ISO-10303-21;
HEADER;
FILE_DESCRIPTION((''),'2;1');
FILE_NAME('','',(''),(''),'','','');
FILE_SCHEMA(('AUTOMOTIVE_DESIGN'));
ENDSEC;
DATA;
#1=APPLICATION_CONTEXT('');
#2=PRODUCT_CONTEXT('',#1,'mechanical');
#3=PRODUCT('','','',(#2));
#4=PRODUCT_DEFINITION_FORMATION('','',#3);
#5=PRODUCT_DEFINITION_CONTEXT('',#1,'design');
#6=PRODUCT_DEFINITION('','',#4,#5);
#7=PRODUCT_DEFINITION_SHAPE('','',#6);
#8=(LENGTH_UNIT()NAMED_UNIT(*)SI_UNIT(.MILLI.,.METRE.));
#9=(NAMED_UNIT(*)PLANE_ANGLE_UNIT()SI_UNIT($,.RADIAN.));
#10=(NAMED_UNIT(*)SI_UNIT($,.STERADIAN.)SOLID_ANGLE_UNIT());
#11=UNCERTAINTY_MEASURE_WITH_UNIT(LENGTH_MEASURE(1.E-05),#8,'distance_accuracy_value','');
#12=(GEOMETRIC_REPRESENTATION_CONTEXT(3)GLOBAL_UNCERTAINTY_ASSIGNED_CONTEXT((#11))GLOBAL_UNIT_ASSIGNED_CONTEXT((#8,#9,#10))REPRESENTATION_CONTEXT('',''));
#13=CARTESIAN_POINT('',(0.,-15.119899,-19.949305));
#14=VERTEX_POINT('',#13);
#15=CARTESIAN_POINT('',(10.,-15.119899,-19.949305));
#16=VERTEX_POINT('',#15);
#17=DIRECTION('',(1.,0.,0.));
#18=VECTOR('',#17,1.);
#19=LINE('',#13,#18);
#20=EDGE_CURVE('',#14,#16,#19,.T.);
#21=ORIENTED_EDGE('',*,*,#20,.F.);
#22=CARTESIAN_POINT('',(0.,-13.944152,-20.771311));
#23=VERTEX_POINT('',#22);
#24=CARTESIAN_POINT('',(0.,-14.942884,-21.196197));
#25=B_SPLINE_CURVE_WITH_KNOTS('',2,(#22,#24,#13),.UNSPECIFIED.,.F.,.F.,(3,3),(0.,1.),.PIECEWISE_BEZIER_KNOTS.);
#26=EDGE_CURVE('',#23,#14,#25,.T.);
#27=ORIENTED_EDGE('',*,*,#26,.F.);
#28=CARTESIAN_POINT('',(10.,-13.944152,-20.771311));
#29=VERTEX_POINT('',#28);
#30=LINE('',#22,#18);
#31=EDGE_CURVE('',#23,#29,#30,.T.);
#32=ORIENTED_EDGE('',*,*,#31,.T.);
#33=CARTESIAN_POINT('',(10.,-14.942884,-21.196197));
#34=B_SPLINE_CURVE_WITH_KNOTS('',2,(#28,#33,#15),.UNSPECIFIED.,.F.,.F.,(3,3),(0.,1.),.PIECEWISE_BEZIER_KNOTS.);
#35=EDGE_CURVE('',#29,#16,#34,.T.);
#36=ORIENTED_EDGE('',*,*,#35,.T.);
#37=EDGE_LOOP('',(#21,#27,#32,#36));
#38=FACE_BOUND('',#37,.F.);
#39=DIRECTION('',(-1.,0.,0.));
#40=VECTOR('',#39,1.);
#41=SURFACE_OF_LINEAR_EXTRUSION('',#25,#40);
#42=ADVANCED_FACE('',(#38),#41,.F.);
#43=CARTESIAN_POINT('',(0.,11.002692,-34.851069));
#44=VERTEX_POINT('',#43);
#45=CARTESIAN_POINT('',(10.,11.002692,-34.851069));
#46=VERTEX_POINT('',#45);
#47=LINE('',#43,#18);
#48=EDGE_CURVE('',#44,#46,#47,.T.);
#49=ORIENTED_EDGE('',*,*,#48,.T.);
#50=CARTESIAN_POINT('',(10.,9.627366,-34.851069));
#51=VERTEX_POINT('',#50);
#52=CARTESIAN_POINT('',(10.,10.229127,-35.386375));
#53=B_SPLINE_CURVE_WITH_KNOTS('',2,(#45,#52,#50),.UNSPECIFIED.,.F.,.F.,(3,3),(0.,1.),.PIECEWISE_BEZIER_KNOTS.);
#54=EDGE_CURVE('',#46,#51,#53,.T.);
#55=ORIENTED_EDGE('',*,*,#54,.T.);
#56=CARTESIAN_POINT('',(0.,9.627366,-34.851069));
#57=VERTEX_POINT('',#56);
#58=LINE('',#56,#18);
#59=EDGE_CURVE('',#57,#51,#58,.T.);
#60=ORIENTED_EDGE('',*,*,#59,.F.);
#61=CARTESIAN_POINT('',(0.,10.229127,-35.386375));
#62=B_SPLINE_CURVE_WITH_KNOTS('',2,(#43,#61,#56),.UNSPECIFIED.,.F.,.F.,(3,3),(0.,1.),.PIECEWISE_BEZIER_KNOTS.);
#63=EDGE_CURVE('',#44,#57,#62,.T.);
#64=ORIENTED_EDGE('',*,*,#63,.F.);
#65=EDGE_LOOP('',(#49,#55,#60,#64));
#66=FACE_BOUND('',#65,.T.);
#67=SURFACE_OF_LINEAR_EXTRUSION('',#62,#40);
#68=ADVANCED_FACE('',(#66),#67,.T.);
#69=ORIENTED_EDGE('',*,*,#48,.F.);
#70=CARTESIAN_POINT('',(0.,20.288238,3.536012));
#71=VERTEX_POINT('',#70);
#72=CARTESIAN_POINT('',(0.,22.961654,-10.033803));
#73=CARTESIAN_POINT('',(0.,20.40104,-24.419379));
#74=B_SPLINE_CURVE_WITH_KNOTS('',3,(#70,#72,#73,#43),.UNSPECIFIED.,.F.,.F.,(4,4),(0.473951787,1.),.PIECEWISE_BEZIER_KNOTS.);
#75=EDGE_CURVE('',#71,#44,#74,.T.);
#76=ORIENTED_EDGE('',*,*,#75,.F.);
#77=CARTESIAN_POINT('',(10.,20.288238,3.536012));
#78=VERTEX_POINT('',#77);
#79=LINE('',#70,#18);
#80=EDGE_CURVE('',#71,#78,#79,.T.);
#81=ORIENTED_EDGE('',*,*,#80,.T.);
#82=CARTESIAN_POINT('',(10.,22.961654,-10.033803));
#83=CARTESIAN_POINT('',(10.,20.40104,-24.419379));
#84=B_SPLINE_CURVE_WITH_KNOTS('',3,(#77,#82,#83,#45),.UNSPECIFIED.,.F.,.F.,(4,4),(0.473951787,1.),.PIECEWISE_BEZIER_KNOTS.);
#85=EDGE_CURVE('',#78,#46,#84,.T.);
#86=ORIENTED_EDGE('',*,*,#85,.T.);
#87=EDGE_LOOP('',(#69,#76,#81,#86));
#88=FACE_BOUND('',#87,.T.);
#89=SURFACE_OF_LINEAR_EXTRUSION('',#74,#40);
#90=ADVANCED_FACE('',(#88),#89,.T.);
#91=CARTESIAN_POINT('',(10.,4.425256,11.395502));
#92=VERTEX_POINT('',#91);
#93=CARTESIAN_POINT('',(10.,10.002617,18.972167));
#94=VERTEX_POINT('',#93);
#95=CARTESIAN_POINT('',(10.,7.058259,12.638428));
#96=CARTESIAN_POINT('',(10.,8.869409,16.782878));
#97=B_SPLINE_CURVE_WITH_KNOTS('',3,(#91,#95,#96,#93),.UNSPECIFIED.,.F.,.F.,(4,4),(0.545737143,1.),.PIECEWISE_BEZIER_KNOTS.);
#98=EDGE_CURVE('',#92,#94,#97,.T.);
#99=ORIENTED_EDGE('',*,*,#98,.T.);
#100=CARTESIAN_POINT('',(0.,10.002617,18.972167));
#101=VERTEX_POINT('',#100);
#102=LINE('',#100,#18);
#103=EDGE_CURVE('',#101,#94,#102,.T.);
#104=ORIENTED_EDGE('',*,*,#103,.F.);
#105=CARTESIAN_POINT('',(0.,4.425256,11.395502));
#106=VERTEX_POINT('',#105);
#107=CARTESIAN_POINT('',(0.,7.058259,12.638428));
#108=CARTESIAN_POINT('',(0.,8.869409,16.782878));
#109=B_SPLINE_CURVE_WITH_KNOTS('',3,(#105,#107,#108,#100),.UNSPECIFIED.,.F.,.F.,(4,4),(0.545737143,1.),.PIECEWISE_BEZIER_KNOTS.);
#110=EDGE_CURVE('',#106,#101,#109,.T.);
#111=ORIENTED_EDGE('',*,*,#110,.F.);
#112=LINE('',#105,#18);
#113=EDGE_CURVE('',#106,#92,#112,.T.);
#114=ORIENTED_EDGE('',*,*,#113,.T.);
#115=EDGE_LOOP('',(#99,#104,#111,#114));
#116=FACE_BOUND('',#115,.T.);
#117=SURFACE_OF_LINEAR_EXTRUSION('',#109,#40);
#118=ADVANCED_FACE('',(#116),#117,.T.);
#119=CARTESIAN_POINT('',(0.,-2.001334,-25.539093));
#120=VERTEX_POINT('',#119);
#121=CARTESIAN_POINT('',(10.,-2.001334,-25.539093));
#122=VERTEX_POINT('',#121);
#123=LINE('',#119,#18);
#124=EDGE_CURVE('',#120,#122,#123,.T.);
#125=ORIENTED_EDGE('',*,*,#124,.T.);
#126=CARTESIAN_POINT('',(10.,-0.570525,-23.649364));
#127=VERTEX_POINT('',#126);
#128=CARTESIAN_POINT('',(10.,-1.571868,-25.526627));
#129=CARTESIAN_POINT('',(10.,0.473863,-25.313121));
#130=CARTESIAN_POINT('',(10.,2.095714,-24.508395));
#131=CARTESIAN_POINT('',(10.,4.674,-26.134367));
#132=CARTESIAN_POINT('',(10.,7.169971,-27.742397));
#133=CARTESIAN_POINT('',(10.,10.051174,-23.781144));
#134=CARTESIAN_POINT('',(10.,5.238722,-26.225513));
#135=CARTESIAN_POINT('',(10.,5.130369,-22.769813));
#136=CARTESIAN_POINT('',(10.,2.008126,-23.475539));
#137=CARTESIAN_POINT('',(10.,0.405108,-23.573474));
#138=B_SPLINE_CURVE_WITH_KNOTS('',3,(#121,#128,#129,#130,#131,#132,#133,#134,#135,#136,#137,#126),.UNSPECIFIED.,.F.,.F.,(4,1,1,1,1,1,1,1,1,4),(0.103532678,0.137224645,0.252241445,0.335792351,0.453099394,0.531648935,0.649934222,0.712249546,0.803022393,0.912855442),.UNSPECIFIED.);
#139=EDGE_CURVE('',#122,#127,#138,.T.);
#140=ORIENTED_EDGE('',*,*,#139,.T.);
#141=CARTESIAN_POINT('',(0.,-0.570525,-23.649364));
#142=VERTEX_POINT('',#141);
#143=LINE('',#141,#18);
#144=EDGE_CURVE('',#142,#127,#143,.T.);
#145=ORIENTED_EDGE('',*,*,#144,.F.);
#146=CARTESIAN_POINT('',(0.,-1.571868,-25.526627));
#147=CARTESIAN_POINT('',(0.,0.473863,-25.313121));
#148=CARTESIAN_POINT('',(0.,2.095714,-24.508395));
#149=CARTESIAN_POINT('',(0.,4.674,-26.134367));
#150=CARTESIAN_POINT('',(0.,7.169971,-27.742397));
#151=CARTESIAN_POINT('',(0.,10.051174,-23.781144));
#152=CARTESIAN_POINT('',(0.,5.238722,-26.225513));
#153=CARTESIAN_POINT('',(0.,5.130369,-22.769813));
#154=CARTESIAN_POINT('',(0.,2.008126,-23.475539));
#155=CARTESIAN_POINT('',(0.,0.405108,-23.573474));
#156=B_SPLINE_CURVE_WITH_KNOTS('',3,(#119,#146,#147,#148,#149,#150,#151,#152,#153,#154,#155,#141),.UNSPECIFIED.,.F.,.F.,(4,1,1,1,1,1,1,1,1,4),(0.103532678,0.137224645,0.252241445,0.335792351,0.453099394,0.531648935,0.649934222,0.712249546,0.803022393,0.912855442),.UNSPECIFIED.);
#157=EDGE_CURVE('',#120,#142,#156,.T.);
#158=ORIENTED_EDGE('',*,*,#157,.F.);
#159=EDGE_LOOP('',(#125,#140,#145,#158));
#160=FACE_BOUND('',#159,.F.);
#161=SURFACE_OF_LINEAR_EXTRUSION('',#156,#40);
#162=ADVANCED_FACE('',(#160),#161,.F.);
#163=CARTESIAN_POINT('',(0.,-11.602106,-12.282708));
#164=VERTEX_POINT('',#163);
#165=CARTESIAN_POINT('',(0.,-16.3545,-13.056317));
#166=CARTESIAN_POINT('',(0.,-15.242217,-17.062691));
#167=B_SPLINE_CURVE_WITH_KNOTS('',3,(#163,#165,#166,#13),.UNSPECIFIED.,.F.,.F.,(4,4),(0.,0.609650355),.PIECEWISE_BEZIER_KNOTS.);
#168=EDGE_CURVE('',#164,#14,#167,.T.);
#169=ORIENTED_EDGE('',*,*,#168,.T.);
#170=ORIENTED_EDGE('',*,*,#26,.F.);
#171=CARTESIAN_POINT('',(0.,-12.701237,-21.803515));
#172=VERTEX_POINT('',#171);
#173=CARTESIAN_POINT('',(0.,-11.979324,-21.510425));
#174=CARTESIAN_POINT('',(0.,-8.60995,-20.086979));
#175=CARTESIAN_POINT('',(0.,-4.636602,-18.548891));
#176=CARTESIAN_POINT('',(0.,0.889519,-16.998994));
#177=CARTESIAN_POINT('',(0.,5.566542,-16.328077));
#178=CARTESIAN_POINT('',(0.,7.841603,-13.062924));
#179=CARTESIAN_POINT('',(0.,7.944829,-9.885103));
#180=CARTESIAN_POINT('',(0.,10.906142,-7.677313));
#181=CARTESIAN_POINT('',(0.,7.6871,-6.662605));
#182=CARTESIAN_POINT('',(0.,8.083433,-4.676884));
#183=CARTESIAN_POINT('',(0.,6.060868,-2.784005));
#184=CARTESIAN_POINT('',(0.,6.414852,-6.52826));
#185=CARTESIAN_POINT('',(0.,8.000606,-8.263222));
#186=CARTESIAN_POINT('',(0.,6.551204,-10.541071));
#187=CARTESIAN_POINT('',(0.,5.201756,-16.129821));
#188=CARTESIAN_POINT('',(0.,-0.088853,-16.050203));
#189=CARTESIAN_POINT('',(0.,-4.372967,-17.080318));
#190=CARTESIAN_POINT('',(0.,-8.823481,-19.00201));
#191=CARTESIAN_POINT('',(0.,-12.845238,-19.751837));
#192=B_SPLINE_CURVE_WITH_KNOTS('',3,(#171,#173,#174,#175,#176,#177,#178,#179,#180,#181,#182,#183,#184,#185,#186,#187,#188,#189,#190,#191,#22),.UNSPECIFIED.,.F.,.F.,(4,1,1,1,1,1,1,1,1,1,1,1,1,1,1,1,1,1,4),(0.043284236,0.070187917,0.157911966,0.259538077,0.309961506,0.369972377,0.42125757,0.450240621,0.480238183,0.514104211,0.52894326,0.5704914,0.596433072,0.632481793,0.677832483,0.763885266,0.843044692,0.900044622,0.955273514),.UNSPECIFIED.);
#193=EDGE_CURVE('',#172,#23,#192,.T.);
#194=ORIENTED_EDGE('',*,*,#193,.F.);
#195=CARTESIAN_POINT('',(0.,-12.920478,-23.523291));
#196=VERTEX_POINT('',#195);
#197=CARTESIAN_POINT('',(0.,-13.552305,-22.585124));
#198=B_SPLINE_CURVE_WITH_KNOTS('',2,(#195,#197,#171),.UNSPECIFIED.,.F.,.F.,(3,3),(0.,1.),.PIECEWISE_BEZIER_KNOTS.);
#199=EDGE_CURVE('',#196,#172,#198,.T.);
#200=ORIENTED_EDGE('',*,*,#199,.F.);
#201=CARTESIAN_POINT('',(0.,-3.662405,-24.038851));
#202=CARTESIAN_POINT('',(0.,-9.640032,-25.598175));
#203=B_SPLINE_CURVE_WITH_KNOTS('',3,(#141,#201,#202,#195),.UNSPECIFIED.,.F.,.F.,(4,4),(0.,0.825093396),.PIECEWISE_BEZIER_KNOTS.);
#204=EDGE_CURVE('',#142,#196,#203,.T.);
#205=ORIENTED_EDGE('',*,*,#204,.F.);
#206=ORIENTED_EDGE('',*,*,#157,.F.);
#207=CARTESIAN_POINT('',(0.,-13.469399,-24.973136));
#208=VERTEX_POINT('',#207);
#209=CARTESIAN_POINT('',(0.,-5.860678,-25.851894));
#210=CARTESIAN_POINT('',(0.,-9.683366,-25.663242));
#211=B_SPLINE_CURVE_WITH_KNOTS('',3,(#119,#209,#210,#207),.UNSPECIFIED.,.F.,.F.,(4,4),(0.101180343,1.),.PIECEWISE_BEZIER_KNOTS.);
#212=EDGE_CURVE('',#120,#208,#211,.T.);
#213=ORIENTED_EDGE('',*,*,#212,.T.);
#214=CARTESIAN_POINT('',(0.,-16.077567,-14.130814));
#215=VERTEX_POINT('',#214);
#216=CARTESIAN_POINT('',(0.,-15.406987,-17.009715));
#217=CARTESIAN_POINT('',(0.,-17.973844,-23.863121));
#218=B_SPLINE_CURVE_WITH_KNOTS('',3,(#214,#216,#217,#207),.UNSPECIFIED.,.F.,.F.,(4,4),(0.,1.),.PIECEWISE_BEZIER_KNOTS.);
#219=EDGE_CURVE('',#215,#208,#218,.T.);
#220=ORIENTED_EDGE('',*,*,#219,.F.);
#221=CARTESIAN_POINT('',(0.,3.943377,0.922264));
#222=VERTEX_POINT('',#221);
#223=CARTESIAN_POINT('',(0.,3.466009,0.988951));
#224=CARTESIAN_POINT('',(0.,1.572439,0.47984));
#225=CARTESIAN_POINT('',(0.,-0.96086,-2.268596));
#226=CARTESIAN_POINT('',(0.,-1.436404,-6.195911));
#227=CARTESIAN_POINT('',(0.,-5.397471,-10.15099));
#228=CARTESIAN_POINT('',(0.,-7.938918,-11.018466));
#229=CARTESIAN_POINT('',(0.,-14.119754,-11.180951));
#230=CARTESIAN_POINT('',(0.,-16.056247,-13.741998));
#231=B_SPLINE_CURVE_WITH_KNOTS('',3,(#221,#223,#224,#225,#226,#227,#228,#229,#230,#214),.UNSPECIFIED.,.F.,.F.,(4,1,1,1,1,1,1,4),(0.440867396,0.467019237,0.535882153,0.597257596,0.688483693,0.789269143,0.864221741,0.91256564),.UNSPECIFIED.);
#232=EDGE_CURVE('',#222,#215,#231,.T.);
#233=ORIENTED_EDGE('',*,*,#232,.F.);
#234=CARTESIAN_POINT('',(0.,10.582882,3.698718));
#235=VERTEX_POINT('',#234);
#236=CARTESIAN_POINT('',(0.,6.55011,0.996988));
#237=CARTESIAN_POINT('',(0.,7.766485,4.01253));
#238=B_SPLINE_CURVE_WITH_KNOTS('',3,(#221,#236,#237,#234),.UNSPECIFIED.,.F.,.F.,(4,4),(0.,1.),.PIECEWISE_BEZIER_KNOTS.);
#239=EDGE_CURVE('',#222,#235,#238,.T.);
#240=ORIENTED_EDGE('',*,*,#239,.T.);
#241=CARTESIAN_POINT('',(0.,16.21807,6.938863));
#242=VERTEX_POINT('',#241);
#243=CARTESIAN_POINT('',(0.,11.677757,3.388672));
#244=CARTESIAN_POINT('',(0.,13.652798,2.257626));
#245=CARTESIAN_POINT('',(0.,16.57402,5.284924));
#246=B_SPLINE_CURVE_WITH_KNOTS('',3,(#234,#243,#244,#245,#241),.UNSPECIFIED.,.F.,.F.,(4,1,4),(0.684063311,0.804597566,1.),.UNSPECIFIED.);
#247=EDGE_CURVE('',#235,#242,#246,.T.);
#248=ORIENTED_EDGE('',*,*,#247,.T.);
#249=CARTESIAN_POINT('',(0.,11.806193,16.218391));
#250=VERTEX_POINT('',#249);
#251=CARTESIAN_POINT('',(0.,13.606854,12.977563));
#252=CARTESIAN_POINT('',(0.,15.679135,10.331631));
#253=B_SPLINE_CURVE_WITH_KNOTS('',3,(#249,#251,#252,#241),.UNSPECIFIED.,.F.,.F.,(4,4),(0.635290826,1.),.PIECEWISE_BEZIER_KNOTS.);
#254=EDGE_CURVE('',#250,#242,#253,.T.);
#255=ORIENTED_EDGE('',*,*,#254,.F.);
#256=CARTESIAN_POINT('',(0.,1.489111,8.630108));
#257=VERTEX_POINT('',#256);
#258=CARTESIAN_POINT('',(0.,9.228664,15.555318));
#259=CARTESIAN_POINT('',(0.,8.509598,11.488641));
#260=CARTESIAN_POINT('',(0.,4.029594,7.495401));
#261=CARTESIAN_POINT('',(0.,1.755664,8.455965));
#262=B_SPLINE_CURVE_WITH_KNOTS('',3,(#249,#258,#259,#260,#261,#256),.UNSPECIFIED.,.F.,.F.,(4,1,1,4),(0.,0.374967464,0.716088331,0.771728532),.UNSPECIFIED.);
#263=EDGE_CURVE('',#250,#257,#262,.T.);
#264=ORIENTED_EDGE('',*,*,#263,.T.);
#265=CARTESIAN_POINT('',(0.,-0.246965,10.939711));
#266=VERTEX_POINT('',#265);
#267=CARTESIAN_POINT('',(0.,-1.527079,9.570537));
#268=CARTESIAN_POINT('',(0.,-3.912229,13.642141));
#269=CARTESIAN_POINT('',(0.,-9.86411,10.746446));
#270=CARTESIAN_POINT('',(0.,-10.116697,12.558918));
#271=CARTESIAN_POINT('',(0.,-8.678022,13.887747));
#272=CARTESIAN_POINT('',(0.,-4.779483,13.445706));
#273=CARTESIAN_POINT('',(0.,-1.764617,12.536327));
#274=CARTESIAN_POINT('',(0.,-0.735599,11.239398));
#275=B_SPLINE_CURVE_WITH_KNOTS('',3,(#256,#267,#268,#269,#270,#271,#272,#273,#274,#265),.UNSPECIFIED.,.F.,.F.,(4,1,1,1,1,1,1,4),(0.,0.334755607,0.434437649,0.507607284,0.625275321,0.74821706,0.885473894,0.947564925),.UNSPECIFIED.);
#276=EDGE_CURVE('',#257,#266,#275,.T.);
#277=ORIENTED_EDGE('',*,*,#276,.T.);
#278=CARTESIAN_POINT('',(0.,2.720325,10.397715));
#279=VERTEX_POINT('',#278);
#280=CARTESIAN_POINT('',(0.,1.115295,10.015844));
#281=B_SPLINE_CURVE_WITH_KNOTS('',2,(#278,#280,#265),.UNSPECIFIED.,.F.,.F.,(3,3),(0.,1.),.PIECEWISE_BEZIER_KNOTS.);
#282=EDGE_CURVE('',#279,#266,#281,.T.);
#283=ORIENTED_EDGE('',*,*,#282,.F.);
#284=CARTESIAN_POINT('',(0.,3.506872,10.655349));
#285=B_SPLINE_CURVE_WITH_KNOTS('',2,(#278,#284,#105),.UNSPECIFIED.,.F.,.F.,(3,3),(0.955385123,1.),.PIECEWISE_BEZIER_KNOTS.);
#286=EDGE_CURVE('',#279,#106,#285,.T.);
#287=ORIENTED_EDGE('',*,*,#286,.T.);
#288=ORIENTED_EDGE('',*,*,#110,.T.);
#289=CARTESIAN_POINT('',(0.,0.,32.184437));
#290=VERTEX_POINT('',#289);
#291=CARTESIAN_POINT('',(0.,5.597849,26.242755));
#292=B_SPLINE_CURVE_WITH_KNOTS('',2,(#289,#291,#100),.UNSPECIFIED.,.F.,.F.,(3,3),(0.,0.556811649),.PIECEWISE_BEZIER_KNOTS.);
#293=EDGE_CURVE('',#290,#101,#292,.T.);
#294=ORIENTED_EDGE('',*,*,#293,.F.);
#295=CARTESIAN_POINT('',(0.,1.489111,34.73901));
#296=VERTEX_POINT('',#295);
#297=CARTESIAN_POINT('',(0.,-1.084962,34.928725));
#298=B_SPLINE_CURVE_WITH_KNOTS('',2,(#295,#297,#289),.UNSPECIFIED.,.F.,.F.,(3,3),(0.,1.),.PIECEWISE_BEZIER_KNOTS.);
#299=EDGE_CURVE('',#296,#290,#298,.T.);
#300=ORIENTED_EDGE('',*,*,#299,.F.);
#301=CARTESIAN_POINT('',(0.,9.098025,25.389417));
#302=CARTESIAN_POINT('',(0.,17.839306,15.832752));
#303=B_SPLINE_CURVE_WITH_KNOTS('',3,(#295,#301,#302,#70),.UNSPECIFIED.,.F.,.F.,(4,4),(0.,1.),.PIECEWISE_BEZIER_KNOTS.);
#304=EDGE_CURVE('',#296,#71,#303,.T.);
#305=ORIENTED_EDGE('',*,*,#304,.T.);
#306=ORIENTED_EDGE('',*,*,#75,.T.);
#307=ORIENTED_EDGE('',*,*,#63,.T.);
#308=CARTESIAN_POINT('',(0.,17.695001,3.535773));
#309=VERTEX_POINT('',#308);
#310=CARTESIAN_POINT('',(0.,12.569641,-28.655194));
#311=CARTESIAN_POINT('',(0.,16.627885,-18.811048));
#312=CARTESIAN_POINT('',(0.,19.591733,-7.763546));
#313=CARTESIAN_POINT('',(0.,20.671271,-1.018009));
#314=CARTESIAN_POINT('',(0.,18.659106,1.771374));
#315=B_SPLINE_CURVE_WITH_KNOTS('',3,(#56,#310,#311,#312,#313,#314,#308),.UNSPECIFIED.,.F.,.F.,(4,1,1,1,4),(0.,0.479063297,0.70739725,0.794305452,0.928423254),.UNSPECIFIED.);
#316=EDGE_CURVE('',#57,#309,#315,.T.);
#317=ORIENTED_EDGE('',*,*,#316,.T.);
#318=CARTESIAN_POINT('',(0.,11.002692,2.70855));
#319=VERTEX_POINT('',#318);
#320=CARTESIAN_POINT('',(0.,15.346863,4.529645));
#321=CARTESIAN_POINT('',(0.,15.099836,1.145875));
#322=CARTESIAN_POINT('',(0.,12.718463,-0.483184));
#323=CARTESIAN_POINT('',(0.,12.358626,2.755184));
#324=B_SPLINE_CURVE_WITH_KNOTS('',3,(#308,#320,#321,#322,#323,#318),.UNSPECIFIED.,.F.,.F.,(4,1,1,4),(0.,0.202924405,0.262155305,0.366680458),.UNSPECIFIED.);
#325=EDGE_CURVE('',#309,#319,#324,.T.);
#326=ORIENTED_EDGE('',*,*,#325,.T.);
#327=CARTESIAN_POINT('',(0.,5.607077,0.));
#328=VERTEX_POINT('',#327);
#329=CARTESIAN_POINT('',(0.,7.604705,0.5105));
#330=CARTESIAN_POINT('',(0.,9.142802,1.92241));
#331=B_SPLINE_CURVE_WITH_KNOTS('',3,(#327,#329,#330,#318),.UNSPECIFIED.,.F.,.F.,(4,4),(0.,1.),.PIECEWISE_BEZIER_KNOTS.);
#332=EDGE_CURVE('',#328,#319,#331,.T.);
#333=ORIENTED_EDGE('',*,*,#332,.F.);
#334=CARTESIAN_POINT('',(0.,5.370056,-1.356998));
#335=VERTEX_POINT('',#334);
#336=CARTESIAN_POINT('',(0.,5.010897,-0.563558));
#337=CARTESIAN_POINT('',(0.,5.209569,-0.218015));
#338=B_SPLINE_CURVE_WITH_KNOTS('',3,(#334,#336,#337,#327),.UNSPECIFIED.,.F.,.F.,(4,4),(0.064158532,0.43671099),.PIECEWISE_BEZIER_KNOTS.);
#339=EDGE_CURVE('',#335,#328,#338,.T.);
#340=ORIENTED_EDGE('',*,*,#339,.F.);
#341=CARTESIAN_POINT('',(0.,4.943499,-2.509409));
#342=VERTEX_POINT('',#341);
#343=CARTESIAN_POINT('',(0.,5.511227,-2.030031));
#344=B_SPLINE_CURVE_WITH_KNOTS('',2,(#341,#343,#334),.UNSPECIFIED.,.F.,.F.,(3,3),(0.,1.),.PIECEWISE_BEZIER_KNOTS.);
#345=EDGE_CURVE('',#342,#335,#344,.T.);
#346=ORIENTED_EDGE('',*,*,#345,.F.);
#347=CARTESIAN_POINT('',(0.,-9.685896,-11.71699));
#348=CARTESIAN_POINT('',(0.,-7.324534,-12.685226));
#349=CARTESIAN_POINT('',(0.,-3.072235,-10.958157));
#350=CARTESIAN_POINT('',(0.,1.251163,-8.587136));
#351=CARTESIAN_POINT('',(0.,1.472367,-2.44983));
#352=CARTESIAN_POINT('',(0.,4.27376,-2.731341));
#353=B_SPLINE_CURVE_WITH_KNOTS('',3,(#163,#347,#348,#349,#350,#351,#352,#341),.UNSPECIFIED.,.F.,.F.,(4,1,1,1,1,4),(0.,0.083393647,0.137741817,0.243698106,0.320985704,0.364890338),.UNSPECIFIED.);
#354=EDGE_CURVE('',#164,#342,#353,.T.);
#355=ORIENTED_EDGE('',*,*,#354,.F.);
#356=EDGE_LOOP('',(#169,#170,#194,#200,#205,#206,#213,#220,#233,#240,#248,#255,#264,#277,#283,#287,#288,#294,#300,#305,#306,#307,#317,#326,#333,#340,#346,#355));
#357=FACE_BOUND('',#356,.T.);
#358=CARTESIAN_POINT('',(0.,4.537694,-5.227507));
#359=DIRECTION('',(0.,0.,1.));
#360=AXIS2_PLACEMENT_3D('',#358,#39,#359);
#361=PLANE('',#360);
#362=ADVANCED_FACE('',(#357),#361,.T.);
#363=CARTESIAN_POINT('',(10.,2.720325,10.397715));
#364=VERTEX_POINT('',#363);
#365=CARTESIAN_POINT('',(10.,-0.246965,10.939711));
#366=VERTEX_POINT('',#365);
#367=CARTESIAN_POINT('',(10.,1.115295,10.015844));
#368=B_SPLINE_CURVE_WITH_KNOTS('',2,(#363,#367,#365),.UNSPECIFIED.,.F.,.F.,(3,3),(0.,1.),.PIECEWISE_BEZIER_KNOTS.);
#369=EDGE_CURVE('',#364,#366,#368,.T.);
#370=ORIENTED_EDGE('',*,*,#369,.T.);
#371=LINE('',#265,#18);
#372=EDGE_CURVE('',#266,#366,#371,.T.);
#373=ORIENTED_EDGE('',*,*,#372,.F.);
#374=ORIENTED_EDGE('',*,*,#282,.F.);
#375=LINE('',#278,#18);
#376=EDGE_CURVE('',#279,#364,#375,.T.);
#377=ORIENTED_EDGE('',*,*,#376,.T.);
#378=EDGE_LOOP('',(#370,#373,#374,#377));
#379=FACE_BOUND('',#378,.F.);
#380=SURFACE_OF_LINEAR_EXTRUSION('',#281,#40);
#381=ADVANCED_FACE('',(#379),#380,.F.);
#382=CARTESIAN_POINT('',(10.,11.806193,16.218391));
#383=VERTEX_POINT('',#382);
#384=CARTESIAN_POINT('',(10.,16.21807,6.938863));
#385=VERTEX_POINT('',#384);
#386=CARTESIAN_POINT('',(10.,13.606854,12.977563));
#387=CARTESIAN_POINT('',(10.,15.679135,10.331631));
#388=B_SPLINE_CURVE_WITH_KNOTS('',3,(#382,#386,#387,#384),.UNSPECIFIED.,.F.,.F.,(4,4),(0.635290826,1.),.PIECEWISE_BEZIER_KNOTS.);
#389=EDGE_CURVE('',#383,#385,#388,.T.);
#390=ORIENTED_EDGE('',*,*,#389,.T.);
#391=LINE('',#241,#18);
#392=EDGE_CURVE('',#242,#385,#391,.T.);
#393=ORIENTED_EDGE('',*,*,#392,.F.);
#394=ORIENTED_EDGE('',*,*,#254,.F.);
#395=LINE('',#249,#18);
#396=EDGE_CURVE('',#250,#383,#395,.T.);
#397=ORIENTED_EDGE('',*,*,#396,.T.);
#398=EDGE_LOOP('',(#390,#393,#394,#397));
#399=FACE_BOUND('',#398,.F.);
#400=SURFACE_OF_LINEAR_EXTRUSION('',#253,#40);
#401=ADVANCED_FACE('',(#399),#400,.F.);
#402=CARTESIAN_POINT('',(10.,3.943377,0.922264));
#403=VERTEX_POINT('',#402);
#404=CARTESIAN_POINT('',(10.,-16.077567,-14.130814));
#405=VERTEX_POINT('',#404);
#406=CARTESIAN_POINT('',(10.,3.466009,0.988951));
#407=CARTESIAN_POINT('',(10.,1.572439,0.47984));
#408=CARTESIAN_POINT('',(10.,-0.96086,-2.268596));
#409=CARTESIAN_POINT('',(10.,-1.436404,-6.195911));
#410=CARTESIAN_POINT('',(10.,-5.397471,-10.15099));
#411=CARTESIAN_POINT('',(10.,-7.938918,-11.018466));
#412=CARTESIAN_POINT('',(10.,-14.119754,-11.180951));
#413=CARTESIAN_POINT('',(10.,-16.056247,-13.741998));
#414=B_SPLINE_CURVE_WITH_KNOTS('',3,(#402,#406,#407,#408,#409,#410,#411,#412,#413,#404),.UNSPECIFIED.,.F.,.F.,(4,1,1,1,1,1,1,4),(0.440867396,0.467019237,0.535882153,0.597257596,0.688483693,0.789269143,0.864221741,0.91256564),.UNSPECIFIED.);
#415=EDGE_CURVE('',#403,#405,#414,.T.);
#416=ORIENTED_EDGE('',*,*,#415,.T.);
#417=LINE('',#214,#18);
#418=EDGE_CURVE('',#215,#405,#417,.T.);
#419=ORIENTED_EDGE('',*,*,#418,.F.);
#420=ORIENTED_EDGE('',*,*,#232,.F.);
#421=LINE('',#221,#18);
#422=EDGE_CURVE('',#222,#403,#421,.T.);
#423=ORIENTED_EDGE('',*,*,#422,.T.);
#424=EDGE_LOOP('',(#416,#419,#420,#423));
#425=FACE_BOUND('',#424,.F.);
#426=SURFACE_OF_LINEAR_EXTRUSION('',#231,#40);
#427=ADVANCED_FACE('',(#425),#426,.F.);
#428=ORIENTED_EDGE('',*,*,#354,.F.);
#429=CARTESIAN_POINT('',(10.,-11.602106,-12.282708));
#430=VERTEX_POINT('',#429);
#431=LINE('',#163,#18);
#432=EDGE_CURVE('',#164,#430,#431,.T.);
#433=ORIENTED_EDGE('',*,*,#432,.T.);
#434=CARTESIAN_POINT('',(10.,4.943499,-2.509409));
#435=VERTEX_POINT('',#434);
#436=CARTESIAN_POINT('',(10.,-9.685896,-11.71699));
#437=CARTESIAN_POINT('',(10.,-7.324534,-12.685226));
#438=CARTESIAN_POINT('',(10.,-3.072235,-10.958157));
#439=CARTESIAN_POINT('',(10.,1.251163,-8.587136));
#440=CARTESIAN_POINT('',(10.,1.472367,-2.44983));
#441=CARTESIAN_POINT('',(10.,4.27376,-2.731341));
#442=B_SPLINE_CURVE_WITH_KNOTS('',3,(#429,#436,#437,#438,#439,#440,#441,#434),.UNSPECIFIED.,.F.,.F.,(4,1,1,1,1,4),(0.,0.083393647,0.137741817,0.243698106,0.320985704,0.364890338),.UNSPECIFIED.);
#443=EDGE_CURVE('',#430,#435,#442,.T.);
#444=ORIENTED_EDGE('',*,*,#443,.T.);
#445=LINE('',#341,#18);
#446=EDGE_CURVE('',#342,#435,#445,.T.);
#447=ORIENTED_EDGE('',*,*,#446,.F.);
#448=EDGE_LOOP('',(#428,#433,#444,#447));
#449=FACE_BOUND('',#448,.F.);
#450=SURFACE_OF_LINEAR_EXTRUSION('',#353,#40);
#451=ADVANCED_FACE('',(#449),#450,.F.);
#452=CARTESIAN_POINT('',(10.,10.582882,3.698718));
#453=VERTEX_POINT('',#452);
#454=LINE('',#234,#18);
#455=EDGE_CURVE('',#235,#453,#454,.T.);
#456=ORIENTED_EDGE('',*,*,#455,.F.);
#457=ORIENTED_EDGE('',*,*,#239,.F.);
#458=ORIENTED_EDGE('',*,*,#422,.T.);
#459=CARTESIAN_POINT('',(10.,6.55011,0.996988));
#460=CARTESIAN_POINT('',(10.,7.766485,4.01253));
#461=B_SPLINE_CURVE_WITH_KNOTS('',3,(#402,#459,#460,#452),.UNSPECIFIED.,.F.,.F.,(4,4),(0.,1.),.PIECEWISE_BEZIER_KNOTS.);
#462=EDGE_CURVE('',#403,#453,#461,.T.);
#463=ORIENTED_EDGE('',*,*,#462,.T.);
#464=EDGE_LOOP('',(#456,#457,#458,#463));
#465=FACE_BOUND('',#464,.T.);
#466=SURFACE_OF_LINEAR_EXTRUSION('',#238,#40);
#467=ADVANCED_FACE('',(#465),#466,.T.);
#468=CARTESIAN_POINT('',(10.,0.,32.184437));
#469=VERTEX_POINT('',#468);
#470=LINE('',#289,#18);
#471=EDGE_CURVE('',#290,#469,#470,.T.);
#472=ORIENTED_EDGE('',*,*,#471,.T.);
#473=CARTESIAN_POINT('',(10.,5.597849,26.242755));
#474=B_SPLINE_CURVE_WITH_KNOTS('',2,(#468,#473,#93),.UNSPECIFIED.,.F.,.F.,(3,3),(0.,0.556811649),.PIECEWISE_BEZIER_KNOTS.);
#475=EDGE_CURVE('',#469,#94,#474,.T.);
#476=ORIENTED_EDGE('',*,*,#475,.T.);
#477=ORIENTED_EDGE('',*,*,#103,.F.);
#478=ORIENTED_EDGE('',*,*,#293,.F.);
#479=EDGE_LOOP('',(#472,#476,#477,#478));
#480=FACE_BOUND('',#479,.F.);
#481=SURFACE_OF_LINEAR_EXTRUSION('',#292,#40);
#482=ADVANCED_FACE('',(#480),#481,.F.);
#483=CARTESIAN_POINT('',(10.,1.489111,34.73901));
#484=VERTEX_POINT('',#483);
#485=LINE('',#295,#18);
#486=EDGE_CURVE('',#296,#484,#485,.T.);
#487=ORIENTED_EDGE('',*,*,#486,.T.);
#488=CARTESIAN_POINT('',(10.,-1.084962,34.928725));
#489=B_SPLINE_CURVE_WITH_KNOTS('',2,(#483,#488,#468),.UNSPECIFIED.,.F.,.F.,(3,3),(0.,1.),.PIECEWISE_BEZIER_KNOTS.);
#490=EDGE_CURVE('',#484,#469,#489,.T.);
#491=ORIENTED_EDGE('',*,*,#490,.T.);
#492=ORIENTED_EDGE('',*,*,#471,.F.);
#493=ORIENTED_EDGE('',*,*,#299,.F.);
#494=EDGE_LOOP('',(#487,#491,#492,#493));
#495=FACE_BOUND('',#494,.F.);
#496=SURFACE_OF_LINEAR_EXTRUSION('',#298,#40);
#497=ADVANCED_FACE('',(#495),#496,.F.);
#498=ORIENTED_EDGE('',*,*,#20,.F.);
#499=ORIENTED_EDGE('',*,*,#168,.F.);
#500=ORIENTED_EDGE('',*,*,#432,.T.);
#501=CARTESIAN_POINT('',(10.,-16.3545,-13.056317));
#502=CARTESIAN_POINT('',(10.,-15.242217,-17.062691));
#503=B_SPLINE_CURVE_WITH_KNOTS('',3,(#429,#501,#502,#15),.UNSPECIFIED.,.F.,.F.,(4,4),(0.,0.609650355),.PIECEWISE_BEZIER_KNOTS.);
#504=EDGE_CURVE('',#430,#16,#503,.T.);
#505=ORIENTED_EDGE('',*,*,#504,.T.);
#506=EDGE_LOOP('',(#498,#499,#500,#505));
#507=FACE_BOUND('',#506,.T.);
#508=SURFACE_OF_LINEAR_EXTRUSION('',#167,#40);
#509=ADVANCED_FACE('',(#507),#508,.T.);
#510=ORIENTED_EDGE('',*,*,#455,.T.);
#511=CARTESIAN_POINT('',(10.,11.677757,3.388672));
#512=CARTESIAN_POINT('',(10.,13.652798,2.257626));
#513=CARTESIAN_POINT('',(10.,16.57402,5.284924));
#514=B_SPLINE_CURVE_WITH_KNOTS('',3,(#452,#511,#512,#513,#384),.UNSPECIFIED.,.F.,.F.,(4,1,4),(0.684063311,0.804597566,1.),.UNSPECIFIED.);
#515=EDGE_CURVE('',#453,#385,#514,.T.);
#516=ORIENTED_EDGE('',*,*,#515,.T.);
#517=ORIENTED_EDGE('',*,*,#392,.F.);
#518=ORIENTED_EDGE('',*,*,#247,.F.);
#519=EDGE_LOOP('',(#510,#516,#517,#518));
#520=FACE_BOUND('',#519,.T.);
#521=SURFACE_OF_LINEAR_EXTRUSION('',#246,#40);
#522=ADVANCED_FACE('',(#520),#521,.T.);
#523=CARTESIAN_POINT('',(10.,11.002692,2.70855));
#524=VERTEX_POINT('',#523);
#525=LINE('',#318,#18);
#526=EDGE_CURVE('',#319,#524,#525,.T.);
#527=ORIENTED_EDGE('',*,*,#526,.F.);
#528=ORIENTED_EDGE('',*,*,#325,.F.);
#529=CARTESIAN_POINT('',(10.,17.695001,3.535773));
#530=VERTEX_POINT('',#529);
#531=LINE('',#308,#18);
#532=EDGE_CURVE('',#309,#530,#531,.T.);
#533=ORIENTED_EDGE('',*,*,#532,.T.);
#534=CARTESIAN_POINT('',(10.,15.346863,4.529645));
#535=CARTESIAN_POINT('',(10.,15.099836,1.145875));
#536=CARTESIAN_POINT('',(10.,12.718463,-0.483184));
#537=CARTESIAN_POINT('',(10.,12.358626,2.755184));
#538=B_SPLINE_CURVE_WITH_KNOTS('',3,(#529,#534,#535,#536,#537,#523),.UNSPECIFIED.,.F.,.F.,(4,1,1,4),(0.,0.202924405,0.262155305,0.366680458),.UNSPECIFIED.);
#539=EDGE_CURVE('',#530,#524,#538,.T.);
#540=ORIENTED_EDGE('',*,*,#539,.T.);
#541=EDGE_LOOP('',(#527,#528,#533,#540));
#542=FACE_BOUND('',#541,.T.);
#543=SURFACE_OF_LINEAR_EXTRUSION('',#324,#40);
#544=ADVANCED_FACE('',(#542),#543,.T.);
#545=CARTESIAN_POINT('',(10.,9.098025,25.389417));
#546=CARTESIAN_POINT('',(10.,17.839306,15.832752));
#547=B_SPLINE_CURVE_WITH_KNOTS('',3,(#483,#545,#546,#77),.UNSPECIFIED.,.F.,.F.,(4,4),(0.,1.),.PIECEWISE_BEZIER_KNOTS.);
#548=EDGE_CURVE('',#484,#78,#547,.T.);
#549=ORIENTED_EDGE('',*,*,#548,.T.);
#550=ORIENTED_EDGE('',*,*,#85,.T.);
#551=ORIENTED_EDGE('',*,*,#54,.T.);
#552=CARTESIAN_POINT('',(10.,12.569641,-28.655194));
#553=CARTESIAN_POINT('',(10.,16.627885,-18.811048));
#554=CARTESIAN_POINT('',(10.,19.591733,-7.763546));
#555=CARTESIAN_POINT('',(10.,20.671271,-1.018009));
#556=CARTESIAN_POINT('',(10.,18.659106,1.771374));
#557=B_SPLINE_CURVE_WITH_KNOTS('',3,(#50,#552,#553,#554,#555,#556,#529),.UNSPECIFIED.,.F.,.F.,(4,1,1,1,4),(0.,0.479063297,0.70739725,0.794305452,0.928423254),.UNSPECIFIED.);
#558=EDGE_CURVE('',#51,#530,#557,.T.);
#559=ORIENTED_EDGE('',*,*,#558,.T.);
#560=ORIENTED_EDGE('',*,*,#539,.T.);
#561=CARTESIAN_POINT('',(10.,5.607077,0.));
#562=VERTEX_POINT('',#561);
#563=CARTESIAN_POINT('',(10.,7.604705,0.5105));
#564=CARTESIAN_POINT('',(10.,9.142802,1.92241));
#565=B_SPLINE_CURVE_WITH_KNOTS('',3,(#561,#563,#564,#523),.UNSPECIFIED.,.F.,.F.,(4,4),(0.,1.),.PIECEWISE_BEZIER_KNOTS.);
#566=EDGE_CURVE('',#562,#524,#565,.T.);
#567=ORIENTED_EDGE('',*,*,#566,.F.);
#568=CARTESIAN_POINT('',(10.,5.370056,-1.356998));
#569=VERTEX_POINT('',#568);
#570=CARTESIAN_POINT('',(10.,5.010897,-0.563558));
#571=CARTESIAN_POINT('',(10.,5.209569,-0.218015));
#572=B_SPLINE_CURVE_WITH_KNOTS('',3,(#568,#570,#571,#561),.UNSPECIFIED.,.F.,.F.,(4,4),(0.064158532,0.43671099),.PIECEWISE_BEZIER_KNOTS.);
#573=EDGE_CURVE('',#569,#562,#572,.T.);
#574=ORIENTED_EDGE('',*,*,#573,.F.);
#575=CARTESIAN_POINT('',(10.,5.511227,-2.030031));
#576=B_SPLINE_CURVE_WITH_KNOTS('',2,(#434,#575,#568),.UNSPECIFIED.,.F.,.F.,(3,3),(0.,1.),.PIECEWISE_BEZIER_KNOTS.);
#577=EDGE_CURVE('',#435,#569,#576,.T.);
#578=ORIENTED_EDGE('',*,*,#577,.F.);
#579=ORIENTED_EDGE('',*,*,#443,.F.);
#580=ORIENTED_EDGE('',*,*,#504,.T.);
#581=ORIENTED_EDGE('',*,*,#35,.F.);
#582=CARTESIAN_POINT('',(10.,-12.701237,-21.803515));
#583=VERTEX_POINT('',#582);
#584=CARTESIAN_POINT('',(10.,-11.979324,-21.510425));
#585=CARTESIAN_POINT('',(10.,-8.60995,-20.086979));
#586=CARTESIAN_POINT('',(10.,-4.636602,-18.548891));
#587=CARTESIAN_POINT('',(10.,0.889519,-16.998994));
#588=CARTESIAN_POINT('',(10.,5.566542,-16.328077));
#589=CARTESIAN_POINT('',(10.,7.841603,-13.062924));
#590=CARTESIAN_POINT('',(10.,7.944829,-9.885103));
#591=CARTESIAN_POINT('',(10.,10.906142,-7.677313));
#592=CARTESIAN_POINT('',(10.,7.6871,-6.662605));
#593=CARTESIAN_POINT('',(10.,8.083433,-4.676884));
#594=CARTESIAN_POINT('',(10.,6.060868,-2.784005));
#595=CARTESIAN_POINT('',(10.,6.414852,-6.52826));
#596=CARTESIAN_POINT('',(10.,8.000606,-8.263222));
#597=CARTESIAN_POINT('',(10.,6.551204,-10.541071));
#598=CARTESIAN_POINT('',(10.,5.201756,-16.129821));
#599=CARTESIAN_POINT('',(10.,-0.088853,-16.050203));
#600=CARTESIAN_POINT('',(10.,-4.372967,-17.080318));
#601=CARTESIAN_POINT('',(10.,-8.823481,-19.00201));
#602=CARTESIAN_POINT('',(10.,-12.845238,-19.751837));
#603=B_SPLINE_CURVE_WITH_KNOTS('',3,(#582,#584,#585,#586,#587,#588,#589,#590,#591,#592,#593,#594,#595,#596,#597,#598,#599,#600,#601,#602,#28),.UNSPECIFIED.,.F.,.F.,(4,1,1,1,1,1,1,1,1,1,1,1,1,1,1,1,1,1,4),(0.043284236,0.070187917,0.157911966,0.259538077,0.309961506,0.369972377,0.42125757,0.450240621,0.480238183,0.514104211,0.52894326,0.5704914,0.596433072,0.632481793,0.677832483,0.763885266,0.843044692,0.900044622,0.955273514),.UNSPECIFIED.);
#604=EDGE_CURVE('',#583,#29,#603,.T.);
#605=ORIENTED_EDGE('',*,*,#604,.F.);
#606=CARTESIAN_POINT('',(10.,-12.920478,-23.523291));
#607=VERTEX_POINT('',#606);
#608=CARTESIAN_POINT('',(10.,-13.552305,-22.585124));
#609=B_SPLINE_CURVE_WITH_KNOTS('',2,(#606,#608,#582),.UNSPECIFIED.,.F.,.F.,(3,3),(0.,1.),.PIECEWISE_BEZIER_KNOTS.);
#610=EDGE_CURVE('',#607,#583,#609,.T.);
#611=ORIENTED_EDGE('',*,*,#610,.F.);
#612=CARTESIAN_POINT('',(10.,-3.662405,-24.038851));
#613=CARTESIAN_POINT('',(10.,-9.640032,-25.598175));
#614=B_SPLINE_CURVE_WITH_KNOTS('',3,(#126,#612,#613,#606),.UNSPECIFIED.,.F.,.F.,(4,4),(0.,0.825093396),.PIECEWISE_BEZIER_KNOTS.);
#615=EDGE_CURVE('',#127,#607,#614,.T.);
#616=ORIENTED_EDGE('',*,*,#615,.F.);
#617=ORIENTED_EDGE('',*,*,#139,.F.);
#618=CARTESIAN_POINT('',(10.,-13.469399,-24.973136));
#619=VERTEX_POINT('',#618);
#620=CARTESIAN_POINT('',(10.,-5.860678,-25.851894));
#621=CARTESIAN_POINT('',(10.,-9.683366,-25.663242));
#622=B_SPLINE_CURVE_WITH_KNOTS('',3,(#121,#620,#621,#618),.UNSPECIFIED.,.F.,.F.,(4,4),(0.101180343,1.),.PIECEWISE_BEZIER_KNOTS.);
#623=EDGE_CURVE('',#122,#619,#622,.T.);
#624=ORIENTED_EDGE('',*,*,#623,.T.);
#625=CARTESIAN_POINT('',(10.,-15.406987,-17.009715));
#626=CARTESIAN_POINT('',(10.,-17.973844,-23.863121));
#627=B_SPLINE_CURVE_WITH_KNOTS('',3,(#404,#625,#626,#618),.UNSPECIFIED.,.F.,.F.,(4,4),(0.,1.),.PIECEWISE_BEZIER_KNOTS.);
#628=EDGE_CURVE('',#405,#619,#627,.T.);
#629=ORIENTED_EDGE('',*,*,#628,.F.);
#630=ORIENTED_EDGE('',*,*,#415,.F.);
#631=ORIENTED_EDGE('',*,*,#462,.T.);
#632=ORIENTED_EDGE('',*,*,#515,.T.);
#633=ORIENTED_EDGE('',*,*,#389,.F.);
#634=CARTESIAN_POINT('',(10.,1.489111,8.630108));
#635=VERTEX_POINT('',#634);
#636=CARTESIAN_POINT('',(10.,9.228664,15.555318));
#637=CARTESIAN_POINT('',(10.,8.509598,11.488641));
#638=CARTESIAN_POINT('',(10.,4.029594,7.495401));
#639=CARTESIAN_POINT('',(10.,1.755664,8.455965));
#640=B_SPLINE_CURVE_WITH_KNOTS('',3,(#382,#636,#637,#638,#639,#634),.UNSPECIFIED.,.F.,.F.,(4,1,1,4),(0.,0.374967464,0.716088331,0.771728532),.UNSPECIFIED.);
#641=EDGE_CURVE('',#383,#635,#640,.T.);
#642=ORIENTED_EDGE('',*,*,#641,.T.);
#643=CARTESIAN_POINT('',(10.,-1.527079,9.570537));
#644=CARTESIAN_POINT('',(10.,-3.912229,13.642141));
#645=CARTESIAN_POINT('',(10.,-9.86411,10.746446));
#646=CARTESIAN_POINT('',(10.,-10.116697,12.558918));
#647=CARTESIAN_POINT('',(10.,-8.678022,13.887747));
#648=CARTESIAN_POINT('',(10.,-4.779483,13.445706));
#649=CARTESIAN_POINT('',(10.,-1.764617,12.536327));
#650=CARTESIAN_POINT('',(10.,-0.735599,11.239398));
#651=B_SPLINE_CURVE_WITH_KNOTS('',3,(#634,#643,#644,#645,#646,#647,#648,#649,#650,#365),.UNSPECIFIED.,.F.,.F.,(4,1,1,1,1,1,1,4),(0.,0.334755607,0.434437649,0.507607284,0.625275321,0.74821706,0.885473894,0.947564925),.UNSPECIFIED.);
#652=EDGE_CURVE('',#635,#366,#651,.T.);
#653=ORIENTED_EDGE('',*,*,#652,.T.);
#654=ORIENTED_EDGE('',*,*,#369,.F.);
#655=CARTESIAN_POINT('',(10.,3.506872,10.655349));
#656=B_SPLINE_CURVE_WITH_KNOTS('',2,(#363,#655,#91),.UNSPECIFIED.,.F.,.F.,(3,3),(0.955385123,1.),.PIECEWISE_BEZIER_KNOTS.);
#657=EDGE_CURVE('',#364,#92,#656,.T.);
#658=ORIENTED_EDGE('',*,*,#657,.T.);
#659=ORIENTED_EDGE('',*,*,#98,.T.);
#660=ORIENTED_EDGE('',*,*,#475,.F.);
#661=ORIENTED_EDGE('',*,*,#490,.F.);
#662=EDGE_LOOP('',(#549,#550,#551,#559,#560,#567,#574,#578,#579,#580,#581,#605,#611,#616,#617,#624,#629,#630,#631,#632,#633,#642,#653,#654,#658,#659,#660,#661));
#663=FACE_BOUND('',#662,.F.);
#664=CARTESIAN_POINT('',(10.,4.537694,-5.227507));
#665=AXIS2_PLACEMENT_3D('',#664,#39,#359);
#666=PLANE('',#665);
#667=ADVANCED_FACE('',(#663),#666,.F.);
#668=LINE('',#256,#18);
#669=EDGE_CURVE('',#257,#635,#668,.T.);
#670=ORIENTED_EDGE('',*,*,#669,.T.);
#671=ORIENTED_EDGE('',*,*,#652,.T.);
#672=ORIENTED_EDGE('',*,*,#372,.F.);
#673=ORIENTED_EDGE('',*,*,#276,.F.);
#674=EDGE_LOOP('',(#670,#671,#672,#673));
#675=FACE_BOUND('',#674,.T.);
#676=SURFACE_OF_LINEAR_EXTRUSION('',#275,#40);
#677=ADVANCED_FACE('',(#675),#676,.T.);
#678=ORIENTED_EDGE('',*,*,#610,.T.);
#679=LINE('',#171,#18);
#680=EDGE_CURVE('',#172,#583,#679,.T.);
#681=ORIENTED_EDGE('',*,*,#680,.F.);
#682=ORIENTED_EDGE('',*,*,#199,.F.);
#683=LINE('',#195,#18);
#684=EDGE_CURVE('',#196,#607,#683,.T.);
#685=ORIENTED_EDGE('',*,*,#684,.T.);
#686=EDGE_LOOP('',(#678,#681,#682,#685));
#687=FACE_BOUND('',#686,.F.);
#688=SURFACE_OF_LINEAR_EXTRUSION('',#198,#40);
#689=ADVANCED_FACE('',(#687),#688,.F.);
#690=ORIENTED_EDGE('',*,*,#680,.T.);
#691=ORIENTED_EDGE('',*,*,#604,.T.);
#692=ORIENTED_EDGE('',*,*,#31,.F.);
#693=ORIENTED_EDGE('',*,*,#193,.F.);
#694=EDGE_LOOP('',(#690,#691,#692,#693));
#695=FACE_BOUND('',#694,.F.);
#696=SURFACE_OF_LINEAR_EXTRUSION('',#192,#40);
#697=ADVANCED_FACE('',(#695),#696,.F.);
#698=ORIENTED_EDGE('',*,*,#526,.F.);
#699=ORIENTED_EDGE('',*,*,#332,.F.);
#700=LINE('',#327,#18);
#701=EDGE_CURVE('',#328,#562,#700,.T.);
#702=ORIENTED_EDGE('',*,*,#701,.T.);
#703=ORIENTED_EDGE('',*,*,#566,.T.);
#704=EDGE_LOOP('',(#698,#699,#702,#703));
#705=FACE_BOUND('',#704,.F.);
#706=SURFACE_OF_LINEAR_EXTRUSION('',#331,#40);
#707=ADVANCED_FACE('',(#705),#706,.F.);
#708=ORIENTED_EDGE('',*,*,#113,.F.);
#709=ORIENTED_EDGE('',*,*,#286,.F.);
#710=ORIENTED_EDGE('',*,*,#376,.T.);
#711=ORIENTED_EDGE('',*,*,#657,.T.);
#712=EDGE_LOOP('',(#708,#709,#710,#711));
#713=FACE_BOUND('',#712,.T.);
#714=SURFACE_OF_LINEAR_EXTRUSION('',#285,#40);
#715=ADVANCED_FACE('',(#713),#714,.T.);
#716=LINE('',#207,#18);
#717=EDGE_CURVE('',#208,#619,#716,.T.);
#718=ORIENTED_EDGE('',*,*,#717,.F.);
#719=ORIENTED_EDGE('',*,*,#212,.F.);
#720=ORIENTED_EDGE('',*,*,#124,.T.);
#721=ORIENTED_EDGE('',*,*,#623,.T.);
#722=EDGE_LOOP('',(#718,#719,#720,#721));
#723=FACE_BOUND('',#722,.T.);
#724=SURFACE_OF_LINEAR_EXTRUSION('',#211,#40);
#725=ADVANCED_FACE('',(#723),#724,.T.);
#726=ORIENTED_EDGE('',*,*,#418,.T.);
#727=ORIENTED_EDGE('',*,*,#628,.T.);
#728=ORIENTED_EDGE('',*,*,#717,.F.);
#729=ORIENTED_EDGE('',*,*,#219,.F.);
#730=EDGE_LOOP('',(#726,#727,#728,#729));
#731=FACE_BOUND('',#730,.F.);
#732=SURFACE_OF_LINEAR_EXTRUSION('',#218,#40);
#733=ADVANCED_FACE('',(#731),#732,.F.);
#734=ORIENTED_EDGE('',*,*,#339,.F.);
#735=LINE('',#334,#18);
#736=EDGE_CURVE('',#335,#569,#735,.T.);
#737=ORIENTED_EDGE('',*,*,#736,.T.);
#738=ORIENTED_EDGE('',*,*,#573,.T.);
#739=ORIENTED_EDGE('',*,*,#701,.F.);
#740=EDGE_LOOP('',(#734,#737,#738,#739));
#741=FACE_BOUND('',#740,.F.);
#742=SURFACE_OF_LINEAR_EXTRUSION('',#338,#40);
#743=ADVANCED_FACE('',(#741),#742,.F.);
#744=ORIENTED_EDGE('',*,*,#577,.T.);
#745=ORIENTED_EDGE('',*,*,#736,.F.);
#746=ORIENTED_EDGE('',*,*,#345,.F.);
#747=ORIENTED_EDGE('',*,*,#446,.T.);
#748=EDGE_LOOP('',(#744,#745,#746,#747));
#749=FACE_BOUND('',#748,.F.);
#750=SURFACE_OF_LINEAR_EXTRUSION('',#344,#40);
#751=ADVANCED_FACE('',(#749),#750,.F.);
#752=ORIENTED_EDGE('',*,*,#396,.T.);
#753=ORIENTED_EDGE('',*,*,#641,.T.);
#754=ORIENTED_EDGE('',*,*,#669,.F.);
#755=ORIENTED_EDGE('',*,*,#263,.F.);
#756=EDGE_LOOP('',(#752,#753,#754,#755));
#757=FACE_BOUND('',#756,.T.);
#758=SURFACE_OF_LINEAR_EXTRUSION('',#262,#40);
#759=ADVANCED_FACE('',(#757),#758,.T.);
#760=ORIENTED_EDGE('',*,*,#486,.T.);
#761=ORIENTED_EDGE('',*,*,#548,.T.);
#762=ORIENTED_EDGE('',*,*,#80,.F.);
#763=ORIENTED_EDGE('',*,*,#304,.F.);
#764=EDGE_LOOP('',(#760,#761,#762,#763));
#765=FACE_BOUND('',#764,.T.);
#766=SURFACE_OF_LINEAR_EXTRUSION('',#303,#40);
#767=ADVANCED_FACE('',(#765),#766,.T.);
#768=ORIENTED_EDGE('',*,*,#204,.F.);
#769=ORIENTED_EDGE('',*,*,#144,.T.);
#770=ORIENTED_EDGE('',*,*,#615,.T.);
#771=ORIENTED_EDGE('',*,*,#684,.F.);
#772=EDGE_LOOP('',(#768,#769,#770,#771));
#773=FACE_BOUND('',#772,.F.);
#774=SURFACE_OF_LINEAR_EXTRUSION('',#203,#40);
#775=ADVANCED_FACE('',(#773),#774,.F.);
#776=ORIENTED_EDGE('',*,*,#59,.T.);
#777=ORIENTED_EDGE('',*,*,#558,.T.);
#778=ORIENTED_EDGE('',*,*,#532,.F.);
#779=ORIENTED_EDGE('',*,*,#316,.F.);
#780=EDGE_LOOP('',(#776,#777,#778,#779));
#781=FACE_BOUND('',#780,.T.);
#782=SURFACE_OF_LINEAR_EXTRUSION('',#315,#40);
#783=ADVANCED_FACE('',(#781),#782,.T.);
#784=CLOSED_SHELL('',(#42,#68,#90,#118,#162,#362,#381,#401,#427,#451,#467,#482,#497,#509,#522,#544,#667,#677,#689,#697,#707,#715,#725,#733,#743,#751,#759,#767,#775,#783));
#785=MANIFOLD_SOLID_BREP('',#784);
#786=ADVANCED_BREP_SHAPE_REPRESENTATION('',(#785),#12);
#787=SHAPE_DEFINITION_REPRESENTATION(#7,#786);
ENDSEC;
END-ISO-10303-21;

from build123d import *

# Parameters (mm, degrees)
BOSS_EXTRUDE1_DEPTH = 10


with BuildPart() as part:
    # Sketch1 → Boss-Extrude1 (new body)
    with BuildSketch(Plane(origin=(0, 0, 0), x_dir=(0, 0, -1), z_dir=(1, 0, 0))):
        with BuildLine():
            add(Edge.make_bspline(
                [(-10.39771491, 2.720324846), (-10.6553486, 3.506871833), (-11.39550241, 4.425256324)],
                knots=[0.955385123, 0.955385123, 0.955385123, 1, 1, 1], degree=2))
            add(Edge.make_bspline(
                [(-11.39550241, 4.425256324), (-12.63842769, 7.058259393), (-16.782877709, 8.869409421), (-18.972167488, 10.002617311)],
                knots=[0.545737143, 0.545737143, 0.545737143, 0.545737143, 1, 1, 1, 1], degree=3))
            add(Edge.make_bspline(
                [(-32.184437288, 0), (-26.242754622, 5.597848633), (-18.972167488, 10.002617311)],
                knots=[0, 0, 0, 0.556811649, 0.556811649, 0.556811649], degree=2))
            add(Edge.make_bspline(
                [(-34.739009795, 1.489111276), (-34.928724984, -1.08496219), (-32.184437288, 0)],
                knots=[0, 0, 0, 1, 1, 1], degree=2))
            add(Edge.make_bspline(
                [(-34.739009795, 1.489111276), (-25.389417179, 9.098024709), (-15.832751713, 17.839305571), (-3.536012085, 20.288237595)],
                knots=[0, 0, 0, 0, 1, 1, 1, 1], degree=3))
            add(Edge.make_bspline(
                [(-3.536012085, 20.288237595), (10.033802927, 22.961653541), (24.419379057, 20.401040375), (34.851068825, 11.002691644)],
                knots=[0.473951787, 0.473951787, 0.473951787, 0.473951787, 1, 1, 1, 1], degree=3))
            add(Edge.make_bspline(
                [(34.851068825, 11.002691644), (35.386375483, 10.229126729), (34.851068825, 9.627365855)],
                knots=[0, 0, 0, 1, 1, 1], degree=2))
            add(Edge.make_bspline(
                [(34.851068825, 9.627365855), (28.655194332, 12.569641359), (18.811048053, 16.627885106), (7.763545936, 19.59173258), (1.018008589, 20.67127134), (-1.771374038, 18.659105751), (-3.535773438, 17.695000564)],
                knots=[0, 0, 0, 0, 0.479063297, 0.70739725, 0.794305452, 0.928423254, 0.928423254, 0.928423254, 0.928423254], degree=3))
            add(Edge.make_bspline(
                [(-3.535773438, 17.695000564), (-4.529645367, 15.346862551), (-1.145875463, 15.099836406), (0.483184414, 12.718462722), (-2.755184122, 12.358625571), (-2.708550132, 11.002691644)],
                knots=[0, 0, 0, 0, 0.202924405, 0.262155305, 0.366680458, 0.366680458, 0.366680458, 0.366680458], degree=3))
            add(Edge.make_bspline(
                [(0, 5.607076944), (-0.510499577, 7.604704852), (-1.922410174, 9.142802275), (-2.708550132, 11.002691644)],
                knots=[0, 0, 0, 0, 1, 1, 1, 1], degree=3))
            add(Edge.make_bspline(
                [(1.356998428, 5.370055993), (0.563557671, 5.010897248), (0.218015253, 5.209568957), (0, 5.607076944)],
                knots=[0.064158532, 0.064158532, 0.064158532, 0.064158532, 0.43671099, 0.43671099, 0.43671099, 0.43671099], degree=3))
            add(Edge.make_bspline(
                [(2.50940923, 4.943498592), (2.030031314, 5.511227017), (1.356998428, 5.370055993)],
                knots=[0, 0, 0, 1, 1, 1], degree=2))
            add(Edge.make_bspline(
                [(12.282708466, -11.602105568), (11.716990302, -9.685895855), (12.685226202, -7.324534068), (10.958156644, -3.072234886), (8.587135946, 1.251163489), (2.449830365, 1.472366858), (2.731341272, 4.273759907), (2.50940923, 4.943498592)],
                knots=[0, 0, 0, 0, 0.083393647, 0.137741817, 0.243698106, 0.320985704, 0.364890338, 0.364890338, 0.364890338, 0.364890338], degree=3))
            add(Edge.make_bspline(
                [(12.282708466, -11.602105568), (13.056317233, -16.354499909), (17.062690995, -15.242216766), (19.94930479, -15.119898595)],
                knots=[0, 0, 0, 0, 0.609650355, 0.609650355, 0.609650355, 0.609650355], degree=3))
            add(Edge.make_bspline(
                [(20.771311412, -13.944151681), (21.196197032, -14.942883665), (19.94930479, -15.119898595)],
                knots=[0, 0, 0, 1, 1, 1], degree=2))
            add(Edge.make_bspline(
                [(21.803515053, -12.701236846), (21.510424659, -11.979324037), (20.086979085, -8.609950032), (18.548891304, -4.636602207), (16.998993569, 0.889518799), (16.328077147, 5.566541982), (13.062924367, 7.8416029), (9.885102551, 7.944829381), (7.677312717, 10.906141675), (6.662605482, 7.687100186), (4.676883881, 8.083433161), (2.784004562, 6.060867849), (6.52825957, 6.414851665), (8.263222162, 8.00060639), (10.541070791, 6.551204394), (16.1298206, 5.201755859), (16.050202751, -0.088853464), (17.080318262, -4.372966621), (19.002010111, -8.82348124), (19.751837022, -12.845238022), (20.771311412, -13.944151681)],
                knots=[0.043284236, 0.043284236, 0.043284236, 0.043284236, 0.070187917, 0.157911966, 0.259538077, 0.309961506, 0.369972377, 0.42125757, 0.450240621, 0.480238183, 0.514104211, 0.52894326, 0.5704914, 0.596433072, 0.632481793, 0.677832483, 0.763885266, 0.843044692, 0.900044622, 0.955273514, 0.955273514, 0.955273514, 0.955273514], degree=3))
            add(Edge.make_bspline(
                [(23.523290907, -12.920477779), (22.585123871, -13.55230509), (21.803515053, -12.701236846)],
                knots=[0, 0, 0, 1, 1, 1], degree=2))
            add(Edge.make_bspline(
                [(23.649364418, -0.570525066), (24.038851296, -3.662404668), (25.59817464, -9.640031528), (23.523290907, -12.920477779)],
                knots=[0, 0, 0, 0, 0.825093396, 0.825093396, 0.825093396, 0.825093396], degree=3))
            add(Edge.make_bspline(
                [(25.539093083, -2.001333882), (25.526627177, -1.571867968), (25.313121334, 0.473862866), (24.508395318, 2.095714393), (26.134367038, 4.674000364), (27.742397109, 7.169970905), (23.781144363, 10.051173631), (26.225512577, 5.23872232), (22.769812951, 5.130369279), (23.475539458, 2.008125517), (23.57347437, 0.405107856), (23.649364418, -0.570525066)],
                knots=[0.103532678, 0.103532678, 0.103532678, 0.103532678, 0.137224645, 0.252241445, 0.335792351, 0.453099394, 0.531648935, 0.649934222, 0.712249546, 0.803022393, 0.912855442, 0.912855442, 0.912855442, 0.912855442], degree=3))
            add(Edge.make_bspline(
                [(25.539093083, -2.001333882), (25.851893908, -5.860677805), (25.66324164, -9.683366178), (24.973136277, -13.469399001)],
                knots=[0.101180343, 0.101180343, 0.101180343, 0.101180343, 1, 1, 1, 1], degree=3))
            add(Edge.make_bspline(
                [(14.130814382, -16.077566847), (17.00971518, -15.406986529), (23.863120783, -17.973844454), (24.973136277, -13.469399001)],
                knots=[0, 0, 0, 0, 1, 1, 1, 1], degree=3))
            add(Edge.make_bspline(
                [(-0.92226419, 3.943376594), (-0.988951357, 3.466008935), (-0.4798402, 1.57243922), (2.268596076, -0.96086022), (6.195911145, -1.436403565), (10.150990153, -5.397471193), (11.018465658, -7.938917569), (11.180951229, -14.119753728), (13.741997636, -16.056247168), (14.130814382, -16.077566847)],
                knots=[0.440867396, 0.440867396, 0.440867396, 0.440867396, 0.467019237, 0.535882153, 0.597257596, 0.688483693, 0.789269143, 0.864221741, 0.91256564, 0.91256564, 0.91256564, 0.91256564], degree=3))
            add(Edge.make_bspline(
                [(-0.92226419, 3.943376594), (-0.996988295, 6.55010994), (-4.012529952, 7.766485057), (-3.698718287, 10.582881811)],
                knots=[0, 0, 0, 0, 1, 1, 1, 1], degree=3))
            add(Edge.make_bspline(
                [(-3.698718287, 10.582881811), (-3.388671505, 11.677757377), (-2.257626148, 13.652798056), (-5.284923516, 16.574020194), (-6.938863358, 16.218070209)],
                knots=[0.684063311, 0.684063311, 0.684063311, 0.684063311, 0.804597566, 1, 1, 1, 1], degree=3))
            add(Edge.make_bspline(
                [(-16.218391409, 11.806193211), (-12.977563245, 13.606854446), (-10.331631009, 15.679135304), (-6.938863358, 16.218070209)],
                knots=[0.635290826, 0.635290826, 0.635290826, 0.635290826, 1, 1, 1, 1], degree=3))
            add(Edge.make_bspline(
                [(-16.218391409, 11.806193211), (-15.555317991, 9.228663677), (-11.488640598, 8.509598456), (-7.495401086, 4.029593828), (-8.455964772, 1.755663962), (-8.630107718, 1.489111276)],
                knots=[0, 0, 0, 0, 0.374967464, 0.716088331, 0.771728532, 0.771728532, 0.771728532, 0.771728532], degree=3))
            add(Edge.make_bspline(
                [(-8.630107718, 1.489111276), (-9.570536539, -1.527078585), (-13.642140839, -3.912228848), (-10.746445661, -9.864109982), (-12.558918483, -10.116697337), (-13.887746644, -8.678022289), (-13.445706454, -4.779482618), (-12.53632714, -1.764616784), (-11.239397579, -0.735598583), (-10.939711438, -0.246964835)],
                knots=[0, 0, 0, 0, 0.334755607, 0.434437649, 0.507607284, 0.625275321, 0.74821706, 0.885473894, 0.947564925, 0.947564925, 0.947564925, 0.947564925], degree=3))
            add(Edge.make_bspline(
                [(-10.39771491, 2.720324846), (-10.015843658, 1.115294553), (-10.939711438, -0.246964835)],
                knots=[0, 0, 0, 1, 1, 1], degree=2))
        make_face()
    extrude(amount=BOSS_EXTRUDE1_DEPTH)


solid = part.part
